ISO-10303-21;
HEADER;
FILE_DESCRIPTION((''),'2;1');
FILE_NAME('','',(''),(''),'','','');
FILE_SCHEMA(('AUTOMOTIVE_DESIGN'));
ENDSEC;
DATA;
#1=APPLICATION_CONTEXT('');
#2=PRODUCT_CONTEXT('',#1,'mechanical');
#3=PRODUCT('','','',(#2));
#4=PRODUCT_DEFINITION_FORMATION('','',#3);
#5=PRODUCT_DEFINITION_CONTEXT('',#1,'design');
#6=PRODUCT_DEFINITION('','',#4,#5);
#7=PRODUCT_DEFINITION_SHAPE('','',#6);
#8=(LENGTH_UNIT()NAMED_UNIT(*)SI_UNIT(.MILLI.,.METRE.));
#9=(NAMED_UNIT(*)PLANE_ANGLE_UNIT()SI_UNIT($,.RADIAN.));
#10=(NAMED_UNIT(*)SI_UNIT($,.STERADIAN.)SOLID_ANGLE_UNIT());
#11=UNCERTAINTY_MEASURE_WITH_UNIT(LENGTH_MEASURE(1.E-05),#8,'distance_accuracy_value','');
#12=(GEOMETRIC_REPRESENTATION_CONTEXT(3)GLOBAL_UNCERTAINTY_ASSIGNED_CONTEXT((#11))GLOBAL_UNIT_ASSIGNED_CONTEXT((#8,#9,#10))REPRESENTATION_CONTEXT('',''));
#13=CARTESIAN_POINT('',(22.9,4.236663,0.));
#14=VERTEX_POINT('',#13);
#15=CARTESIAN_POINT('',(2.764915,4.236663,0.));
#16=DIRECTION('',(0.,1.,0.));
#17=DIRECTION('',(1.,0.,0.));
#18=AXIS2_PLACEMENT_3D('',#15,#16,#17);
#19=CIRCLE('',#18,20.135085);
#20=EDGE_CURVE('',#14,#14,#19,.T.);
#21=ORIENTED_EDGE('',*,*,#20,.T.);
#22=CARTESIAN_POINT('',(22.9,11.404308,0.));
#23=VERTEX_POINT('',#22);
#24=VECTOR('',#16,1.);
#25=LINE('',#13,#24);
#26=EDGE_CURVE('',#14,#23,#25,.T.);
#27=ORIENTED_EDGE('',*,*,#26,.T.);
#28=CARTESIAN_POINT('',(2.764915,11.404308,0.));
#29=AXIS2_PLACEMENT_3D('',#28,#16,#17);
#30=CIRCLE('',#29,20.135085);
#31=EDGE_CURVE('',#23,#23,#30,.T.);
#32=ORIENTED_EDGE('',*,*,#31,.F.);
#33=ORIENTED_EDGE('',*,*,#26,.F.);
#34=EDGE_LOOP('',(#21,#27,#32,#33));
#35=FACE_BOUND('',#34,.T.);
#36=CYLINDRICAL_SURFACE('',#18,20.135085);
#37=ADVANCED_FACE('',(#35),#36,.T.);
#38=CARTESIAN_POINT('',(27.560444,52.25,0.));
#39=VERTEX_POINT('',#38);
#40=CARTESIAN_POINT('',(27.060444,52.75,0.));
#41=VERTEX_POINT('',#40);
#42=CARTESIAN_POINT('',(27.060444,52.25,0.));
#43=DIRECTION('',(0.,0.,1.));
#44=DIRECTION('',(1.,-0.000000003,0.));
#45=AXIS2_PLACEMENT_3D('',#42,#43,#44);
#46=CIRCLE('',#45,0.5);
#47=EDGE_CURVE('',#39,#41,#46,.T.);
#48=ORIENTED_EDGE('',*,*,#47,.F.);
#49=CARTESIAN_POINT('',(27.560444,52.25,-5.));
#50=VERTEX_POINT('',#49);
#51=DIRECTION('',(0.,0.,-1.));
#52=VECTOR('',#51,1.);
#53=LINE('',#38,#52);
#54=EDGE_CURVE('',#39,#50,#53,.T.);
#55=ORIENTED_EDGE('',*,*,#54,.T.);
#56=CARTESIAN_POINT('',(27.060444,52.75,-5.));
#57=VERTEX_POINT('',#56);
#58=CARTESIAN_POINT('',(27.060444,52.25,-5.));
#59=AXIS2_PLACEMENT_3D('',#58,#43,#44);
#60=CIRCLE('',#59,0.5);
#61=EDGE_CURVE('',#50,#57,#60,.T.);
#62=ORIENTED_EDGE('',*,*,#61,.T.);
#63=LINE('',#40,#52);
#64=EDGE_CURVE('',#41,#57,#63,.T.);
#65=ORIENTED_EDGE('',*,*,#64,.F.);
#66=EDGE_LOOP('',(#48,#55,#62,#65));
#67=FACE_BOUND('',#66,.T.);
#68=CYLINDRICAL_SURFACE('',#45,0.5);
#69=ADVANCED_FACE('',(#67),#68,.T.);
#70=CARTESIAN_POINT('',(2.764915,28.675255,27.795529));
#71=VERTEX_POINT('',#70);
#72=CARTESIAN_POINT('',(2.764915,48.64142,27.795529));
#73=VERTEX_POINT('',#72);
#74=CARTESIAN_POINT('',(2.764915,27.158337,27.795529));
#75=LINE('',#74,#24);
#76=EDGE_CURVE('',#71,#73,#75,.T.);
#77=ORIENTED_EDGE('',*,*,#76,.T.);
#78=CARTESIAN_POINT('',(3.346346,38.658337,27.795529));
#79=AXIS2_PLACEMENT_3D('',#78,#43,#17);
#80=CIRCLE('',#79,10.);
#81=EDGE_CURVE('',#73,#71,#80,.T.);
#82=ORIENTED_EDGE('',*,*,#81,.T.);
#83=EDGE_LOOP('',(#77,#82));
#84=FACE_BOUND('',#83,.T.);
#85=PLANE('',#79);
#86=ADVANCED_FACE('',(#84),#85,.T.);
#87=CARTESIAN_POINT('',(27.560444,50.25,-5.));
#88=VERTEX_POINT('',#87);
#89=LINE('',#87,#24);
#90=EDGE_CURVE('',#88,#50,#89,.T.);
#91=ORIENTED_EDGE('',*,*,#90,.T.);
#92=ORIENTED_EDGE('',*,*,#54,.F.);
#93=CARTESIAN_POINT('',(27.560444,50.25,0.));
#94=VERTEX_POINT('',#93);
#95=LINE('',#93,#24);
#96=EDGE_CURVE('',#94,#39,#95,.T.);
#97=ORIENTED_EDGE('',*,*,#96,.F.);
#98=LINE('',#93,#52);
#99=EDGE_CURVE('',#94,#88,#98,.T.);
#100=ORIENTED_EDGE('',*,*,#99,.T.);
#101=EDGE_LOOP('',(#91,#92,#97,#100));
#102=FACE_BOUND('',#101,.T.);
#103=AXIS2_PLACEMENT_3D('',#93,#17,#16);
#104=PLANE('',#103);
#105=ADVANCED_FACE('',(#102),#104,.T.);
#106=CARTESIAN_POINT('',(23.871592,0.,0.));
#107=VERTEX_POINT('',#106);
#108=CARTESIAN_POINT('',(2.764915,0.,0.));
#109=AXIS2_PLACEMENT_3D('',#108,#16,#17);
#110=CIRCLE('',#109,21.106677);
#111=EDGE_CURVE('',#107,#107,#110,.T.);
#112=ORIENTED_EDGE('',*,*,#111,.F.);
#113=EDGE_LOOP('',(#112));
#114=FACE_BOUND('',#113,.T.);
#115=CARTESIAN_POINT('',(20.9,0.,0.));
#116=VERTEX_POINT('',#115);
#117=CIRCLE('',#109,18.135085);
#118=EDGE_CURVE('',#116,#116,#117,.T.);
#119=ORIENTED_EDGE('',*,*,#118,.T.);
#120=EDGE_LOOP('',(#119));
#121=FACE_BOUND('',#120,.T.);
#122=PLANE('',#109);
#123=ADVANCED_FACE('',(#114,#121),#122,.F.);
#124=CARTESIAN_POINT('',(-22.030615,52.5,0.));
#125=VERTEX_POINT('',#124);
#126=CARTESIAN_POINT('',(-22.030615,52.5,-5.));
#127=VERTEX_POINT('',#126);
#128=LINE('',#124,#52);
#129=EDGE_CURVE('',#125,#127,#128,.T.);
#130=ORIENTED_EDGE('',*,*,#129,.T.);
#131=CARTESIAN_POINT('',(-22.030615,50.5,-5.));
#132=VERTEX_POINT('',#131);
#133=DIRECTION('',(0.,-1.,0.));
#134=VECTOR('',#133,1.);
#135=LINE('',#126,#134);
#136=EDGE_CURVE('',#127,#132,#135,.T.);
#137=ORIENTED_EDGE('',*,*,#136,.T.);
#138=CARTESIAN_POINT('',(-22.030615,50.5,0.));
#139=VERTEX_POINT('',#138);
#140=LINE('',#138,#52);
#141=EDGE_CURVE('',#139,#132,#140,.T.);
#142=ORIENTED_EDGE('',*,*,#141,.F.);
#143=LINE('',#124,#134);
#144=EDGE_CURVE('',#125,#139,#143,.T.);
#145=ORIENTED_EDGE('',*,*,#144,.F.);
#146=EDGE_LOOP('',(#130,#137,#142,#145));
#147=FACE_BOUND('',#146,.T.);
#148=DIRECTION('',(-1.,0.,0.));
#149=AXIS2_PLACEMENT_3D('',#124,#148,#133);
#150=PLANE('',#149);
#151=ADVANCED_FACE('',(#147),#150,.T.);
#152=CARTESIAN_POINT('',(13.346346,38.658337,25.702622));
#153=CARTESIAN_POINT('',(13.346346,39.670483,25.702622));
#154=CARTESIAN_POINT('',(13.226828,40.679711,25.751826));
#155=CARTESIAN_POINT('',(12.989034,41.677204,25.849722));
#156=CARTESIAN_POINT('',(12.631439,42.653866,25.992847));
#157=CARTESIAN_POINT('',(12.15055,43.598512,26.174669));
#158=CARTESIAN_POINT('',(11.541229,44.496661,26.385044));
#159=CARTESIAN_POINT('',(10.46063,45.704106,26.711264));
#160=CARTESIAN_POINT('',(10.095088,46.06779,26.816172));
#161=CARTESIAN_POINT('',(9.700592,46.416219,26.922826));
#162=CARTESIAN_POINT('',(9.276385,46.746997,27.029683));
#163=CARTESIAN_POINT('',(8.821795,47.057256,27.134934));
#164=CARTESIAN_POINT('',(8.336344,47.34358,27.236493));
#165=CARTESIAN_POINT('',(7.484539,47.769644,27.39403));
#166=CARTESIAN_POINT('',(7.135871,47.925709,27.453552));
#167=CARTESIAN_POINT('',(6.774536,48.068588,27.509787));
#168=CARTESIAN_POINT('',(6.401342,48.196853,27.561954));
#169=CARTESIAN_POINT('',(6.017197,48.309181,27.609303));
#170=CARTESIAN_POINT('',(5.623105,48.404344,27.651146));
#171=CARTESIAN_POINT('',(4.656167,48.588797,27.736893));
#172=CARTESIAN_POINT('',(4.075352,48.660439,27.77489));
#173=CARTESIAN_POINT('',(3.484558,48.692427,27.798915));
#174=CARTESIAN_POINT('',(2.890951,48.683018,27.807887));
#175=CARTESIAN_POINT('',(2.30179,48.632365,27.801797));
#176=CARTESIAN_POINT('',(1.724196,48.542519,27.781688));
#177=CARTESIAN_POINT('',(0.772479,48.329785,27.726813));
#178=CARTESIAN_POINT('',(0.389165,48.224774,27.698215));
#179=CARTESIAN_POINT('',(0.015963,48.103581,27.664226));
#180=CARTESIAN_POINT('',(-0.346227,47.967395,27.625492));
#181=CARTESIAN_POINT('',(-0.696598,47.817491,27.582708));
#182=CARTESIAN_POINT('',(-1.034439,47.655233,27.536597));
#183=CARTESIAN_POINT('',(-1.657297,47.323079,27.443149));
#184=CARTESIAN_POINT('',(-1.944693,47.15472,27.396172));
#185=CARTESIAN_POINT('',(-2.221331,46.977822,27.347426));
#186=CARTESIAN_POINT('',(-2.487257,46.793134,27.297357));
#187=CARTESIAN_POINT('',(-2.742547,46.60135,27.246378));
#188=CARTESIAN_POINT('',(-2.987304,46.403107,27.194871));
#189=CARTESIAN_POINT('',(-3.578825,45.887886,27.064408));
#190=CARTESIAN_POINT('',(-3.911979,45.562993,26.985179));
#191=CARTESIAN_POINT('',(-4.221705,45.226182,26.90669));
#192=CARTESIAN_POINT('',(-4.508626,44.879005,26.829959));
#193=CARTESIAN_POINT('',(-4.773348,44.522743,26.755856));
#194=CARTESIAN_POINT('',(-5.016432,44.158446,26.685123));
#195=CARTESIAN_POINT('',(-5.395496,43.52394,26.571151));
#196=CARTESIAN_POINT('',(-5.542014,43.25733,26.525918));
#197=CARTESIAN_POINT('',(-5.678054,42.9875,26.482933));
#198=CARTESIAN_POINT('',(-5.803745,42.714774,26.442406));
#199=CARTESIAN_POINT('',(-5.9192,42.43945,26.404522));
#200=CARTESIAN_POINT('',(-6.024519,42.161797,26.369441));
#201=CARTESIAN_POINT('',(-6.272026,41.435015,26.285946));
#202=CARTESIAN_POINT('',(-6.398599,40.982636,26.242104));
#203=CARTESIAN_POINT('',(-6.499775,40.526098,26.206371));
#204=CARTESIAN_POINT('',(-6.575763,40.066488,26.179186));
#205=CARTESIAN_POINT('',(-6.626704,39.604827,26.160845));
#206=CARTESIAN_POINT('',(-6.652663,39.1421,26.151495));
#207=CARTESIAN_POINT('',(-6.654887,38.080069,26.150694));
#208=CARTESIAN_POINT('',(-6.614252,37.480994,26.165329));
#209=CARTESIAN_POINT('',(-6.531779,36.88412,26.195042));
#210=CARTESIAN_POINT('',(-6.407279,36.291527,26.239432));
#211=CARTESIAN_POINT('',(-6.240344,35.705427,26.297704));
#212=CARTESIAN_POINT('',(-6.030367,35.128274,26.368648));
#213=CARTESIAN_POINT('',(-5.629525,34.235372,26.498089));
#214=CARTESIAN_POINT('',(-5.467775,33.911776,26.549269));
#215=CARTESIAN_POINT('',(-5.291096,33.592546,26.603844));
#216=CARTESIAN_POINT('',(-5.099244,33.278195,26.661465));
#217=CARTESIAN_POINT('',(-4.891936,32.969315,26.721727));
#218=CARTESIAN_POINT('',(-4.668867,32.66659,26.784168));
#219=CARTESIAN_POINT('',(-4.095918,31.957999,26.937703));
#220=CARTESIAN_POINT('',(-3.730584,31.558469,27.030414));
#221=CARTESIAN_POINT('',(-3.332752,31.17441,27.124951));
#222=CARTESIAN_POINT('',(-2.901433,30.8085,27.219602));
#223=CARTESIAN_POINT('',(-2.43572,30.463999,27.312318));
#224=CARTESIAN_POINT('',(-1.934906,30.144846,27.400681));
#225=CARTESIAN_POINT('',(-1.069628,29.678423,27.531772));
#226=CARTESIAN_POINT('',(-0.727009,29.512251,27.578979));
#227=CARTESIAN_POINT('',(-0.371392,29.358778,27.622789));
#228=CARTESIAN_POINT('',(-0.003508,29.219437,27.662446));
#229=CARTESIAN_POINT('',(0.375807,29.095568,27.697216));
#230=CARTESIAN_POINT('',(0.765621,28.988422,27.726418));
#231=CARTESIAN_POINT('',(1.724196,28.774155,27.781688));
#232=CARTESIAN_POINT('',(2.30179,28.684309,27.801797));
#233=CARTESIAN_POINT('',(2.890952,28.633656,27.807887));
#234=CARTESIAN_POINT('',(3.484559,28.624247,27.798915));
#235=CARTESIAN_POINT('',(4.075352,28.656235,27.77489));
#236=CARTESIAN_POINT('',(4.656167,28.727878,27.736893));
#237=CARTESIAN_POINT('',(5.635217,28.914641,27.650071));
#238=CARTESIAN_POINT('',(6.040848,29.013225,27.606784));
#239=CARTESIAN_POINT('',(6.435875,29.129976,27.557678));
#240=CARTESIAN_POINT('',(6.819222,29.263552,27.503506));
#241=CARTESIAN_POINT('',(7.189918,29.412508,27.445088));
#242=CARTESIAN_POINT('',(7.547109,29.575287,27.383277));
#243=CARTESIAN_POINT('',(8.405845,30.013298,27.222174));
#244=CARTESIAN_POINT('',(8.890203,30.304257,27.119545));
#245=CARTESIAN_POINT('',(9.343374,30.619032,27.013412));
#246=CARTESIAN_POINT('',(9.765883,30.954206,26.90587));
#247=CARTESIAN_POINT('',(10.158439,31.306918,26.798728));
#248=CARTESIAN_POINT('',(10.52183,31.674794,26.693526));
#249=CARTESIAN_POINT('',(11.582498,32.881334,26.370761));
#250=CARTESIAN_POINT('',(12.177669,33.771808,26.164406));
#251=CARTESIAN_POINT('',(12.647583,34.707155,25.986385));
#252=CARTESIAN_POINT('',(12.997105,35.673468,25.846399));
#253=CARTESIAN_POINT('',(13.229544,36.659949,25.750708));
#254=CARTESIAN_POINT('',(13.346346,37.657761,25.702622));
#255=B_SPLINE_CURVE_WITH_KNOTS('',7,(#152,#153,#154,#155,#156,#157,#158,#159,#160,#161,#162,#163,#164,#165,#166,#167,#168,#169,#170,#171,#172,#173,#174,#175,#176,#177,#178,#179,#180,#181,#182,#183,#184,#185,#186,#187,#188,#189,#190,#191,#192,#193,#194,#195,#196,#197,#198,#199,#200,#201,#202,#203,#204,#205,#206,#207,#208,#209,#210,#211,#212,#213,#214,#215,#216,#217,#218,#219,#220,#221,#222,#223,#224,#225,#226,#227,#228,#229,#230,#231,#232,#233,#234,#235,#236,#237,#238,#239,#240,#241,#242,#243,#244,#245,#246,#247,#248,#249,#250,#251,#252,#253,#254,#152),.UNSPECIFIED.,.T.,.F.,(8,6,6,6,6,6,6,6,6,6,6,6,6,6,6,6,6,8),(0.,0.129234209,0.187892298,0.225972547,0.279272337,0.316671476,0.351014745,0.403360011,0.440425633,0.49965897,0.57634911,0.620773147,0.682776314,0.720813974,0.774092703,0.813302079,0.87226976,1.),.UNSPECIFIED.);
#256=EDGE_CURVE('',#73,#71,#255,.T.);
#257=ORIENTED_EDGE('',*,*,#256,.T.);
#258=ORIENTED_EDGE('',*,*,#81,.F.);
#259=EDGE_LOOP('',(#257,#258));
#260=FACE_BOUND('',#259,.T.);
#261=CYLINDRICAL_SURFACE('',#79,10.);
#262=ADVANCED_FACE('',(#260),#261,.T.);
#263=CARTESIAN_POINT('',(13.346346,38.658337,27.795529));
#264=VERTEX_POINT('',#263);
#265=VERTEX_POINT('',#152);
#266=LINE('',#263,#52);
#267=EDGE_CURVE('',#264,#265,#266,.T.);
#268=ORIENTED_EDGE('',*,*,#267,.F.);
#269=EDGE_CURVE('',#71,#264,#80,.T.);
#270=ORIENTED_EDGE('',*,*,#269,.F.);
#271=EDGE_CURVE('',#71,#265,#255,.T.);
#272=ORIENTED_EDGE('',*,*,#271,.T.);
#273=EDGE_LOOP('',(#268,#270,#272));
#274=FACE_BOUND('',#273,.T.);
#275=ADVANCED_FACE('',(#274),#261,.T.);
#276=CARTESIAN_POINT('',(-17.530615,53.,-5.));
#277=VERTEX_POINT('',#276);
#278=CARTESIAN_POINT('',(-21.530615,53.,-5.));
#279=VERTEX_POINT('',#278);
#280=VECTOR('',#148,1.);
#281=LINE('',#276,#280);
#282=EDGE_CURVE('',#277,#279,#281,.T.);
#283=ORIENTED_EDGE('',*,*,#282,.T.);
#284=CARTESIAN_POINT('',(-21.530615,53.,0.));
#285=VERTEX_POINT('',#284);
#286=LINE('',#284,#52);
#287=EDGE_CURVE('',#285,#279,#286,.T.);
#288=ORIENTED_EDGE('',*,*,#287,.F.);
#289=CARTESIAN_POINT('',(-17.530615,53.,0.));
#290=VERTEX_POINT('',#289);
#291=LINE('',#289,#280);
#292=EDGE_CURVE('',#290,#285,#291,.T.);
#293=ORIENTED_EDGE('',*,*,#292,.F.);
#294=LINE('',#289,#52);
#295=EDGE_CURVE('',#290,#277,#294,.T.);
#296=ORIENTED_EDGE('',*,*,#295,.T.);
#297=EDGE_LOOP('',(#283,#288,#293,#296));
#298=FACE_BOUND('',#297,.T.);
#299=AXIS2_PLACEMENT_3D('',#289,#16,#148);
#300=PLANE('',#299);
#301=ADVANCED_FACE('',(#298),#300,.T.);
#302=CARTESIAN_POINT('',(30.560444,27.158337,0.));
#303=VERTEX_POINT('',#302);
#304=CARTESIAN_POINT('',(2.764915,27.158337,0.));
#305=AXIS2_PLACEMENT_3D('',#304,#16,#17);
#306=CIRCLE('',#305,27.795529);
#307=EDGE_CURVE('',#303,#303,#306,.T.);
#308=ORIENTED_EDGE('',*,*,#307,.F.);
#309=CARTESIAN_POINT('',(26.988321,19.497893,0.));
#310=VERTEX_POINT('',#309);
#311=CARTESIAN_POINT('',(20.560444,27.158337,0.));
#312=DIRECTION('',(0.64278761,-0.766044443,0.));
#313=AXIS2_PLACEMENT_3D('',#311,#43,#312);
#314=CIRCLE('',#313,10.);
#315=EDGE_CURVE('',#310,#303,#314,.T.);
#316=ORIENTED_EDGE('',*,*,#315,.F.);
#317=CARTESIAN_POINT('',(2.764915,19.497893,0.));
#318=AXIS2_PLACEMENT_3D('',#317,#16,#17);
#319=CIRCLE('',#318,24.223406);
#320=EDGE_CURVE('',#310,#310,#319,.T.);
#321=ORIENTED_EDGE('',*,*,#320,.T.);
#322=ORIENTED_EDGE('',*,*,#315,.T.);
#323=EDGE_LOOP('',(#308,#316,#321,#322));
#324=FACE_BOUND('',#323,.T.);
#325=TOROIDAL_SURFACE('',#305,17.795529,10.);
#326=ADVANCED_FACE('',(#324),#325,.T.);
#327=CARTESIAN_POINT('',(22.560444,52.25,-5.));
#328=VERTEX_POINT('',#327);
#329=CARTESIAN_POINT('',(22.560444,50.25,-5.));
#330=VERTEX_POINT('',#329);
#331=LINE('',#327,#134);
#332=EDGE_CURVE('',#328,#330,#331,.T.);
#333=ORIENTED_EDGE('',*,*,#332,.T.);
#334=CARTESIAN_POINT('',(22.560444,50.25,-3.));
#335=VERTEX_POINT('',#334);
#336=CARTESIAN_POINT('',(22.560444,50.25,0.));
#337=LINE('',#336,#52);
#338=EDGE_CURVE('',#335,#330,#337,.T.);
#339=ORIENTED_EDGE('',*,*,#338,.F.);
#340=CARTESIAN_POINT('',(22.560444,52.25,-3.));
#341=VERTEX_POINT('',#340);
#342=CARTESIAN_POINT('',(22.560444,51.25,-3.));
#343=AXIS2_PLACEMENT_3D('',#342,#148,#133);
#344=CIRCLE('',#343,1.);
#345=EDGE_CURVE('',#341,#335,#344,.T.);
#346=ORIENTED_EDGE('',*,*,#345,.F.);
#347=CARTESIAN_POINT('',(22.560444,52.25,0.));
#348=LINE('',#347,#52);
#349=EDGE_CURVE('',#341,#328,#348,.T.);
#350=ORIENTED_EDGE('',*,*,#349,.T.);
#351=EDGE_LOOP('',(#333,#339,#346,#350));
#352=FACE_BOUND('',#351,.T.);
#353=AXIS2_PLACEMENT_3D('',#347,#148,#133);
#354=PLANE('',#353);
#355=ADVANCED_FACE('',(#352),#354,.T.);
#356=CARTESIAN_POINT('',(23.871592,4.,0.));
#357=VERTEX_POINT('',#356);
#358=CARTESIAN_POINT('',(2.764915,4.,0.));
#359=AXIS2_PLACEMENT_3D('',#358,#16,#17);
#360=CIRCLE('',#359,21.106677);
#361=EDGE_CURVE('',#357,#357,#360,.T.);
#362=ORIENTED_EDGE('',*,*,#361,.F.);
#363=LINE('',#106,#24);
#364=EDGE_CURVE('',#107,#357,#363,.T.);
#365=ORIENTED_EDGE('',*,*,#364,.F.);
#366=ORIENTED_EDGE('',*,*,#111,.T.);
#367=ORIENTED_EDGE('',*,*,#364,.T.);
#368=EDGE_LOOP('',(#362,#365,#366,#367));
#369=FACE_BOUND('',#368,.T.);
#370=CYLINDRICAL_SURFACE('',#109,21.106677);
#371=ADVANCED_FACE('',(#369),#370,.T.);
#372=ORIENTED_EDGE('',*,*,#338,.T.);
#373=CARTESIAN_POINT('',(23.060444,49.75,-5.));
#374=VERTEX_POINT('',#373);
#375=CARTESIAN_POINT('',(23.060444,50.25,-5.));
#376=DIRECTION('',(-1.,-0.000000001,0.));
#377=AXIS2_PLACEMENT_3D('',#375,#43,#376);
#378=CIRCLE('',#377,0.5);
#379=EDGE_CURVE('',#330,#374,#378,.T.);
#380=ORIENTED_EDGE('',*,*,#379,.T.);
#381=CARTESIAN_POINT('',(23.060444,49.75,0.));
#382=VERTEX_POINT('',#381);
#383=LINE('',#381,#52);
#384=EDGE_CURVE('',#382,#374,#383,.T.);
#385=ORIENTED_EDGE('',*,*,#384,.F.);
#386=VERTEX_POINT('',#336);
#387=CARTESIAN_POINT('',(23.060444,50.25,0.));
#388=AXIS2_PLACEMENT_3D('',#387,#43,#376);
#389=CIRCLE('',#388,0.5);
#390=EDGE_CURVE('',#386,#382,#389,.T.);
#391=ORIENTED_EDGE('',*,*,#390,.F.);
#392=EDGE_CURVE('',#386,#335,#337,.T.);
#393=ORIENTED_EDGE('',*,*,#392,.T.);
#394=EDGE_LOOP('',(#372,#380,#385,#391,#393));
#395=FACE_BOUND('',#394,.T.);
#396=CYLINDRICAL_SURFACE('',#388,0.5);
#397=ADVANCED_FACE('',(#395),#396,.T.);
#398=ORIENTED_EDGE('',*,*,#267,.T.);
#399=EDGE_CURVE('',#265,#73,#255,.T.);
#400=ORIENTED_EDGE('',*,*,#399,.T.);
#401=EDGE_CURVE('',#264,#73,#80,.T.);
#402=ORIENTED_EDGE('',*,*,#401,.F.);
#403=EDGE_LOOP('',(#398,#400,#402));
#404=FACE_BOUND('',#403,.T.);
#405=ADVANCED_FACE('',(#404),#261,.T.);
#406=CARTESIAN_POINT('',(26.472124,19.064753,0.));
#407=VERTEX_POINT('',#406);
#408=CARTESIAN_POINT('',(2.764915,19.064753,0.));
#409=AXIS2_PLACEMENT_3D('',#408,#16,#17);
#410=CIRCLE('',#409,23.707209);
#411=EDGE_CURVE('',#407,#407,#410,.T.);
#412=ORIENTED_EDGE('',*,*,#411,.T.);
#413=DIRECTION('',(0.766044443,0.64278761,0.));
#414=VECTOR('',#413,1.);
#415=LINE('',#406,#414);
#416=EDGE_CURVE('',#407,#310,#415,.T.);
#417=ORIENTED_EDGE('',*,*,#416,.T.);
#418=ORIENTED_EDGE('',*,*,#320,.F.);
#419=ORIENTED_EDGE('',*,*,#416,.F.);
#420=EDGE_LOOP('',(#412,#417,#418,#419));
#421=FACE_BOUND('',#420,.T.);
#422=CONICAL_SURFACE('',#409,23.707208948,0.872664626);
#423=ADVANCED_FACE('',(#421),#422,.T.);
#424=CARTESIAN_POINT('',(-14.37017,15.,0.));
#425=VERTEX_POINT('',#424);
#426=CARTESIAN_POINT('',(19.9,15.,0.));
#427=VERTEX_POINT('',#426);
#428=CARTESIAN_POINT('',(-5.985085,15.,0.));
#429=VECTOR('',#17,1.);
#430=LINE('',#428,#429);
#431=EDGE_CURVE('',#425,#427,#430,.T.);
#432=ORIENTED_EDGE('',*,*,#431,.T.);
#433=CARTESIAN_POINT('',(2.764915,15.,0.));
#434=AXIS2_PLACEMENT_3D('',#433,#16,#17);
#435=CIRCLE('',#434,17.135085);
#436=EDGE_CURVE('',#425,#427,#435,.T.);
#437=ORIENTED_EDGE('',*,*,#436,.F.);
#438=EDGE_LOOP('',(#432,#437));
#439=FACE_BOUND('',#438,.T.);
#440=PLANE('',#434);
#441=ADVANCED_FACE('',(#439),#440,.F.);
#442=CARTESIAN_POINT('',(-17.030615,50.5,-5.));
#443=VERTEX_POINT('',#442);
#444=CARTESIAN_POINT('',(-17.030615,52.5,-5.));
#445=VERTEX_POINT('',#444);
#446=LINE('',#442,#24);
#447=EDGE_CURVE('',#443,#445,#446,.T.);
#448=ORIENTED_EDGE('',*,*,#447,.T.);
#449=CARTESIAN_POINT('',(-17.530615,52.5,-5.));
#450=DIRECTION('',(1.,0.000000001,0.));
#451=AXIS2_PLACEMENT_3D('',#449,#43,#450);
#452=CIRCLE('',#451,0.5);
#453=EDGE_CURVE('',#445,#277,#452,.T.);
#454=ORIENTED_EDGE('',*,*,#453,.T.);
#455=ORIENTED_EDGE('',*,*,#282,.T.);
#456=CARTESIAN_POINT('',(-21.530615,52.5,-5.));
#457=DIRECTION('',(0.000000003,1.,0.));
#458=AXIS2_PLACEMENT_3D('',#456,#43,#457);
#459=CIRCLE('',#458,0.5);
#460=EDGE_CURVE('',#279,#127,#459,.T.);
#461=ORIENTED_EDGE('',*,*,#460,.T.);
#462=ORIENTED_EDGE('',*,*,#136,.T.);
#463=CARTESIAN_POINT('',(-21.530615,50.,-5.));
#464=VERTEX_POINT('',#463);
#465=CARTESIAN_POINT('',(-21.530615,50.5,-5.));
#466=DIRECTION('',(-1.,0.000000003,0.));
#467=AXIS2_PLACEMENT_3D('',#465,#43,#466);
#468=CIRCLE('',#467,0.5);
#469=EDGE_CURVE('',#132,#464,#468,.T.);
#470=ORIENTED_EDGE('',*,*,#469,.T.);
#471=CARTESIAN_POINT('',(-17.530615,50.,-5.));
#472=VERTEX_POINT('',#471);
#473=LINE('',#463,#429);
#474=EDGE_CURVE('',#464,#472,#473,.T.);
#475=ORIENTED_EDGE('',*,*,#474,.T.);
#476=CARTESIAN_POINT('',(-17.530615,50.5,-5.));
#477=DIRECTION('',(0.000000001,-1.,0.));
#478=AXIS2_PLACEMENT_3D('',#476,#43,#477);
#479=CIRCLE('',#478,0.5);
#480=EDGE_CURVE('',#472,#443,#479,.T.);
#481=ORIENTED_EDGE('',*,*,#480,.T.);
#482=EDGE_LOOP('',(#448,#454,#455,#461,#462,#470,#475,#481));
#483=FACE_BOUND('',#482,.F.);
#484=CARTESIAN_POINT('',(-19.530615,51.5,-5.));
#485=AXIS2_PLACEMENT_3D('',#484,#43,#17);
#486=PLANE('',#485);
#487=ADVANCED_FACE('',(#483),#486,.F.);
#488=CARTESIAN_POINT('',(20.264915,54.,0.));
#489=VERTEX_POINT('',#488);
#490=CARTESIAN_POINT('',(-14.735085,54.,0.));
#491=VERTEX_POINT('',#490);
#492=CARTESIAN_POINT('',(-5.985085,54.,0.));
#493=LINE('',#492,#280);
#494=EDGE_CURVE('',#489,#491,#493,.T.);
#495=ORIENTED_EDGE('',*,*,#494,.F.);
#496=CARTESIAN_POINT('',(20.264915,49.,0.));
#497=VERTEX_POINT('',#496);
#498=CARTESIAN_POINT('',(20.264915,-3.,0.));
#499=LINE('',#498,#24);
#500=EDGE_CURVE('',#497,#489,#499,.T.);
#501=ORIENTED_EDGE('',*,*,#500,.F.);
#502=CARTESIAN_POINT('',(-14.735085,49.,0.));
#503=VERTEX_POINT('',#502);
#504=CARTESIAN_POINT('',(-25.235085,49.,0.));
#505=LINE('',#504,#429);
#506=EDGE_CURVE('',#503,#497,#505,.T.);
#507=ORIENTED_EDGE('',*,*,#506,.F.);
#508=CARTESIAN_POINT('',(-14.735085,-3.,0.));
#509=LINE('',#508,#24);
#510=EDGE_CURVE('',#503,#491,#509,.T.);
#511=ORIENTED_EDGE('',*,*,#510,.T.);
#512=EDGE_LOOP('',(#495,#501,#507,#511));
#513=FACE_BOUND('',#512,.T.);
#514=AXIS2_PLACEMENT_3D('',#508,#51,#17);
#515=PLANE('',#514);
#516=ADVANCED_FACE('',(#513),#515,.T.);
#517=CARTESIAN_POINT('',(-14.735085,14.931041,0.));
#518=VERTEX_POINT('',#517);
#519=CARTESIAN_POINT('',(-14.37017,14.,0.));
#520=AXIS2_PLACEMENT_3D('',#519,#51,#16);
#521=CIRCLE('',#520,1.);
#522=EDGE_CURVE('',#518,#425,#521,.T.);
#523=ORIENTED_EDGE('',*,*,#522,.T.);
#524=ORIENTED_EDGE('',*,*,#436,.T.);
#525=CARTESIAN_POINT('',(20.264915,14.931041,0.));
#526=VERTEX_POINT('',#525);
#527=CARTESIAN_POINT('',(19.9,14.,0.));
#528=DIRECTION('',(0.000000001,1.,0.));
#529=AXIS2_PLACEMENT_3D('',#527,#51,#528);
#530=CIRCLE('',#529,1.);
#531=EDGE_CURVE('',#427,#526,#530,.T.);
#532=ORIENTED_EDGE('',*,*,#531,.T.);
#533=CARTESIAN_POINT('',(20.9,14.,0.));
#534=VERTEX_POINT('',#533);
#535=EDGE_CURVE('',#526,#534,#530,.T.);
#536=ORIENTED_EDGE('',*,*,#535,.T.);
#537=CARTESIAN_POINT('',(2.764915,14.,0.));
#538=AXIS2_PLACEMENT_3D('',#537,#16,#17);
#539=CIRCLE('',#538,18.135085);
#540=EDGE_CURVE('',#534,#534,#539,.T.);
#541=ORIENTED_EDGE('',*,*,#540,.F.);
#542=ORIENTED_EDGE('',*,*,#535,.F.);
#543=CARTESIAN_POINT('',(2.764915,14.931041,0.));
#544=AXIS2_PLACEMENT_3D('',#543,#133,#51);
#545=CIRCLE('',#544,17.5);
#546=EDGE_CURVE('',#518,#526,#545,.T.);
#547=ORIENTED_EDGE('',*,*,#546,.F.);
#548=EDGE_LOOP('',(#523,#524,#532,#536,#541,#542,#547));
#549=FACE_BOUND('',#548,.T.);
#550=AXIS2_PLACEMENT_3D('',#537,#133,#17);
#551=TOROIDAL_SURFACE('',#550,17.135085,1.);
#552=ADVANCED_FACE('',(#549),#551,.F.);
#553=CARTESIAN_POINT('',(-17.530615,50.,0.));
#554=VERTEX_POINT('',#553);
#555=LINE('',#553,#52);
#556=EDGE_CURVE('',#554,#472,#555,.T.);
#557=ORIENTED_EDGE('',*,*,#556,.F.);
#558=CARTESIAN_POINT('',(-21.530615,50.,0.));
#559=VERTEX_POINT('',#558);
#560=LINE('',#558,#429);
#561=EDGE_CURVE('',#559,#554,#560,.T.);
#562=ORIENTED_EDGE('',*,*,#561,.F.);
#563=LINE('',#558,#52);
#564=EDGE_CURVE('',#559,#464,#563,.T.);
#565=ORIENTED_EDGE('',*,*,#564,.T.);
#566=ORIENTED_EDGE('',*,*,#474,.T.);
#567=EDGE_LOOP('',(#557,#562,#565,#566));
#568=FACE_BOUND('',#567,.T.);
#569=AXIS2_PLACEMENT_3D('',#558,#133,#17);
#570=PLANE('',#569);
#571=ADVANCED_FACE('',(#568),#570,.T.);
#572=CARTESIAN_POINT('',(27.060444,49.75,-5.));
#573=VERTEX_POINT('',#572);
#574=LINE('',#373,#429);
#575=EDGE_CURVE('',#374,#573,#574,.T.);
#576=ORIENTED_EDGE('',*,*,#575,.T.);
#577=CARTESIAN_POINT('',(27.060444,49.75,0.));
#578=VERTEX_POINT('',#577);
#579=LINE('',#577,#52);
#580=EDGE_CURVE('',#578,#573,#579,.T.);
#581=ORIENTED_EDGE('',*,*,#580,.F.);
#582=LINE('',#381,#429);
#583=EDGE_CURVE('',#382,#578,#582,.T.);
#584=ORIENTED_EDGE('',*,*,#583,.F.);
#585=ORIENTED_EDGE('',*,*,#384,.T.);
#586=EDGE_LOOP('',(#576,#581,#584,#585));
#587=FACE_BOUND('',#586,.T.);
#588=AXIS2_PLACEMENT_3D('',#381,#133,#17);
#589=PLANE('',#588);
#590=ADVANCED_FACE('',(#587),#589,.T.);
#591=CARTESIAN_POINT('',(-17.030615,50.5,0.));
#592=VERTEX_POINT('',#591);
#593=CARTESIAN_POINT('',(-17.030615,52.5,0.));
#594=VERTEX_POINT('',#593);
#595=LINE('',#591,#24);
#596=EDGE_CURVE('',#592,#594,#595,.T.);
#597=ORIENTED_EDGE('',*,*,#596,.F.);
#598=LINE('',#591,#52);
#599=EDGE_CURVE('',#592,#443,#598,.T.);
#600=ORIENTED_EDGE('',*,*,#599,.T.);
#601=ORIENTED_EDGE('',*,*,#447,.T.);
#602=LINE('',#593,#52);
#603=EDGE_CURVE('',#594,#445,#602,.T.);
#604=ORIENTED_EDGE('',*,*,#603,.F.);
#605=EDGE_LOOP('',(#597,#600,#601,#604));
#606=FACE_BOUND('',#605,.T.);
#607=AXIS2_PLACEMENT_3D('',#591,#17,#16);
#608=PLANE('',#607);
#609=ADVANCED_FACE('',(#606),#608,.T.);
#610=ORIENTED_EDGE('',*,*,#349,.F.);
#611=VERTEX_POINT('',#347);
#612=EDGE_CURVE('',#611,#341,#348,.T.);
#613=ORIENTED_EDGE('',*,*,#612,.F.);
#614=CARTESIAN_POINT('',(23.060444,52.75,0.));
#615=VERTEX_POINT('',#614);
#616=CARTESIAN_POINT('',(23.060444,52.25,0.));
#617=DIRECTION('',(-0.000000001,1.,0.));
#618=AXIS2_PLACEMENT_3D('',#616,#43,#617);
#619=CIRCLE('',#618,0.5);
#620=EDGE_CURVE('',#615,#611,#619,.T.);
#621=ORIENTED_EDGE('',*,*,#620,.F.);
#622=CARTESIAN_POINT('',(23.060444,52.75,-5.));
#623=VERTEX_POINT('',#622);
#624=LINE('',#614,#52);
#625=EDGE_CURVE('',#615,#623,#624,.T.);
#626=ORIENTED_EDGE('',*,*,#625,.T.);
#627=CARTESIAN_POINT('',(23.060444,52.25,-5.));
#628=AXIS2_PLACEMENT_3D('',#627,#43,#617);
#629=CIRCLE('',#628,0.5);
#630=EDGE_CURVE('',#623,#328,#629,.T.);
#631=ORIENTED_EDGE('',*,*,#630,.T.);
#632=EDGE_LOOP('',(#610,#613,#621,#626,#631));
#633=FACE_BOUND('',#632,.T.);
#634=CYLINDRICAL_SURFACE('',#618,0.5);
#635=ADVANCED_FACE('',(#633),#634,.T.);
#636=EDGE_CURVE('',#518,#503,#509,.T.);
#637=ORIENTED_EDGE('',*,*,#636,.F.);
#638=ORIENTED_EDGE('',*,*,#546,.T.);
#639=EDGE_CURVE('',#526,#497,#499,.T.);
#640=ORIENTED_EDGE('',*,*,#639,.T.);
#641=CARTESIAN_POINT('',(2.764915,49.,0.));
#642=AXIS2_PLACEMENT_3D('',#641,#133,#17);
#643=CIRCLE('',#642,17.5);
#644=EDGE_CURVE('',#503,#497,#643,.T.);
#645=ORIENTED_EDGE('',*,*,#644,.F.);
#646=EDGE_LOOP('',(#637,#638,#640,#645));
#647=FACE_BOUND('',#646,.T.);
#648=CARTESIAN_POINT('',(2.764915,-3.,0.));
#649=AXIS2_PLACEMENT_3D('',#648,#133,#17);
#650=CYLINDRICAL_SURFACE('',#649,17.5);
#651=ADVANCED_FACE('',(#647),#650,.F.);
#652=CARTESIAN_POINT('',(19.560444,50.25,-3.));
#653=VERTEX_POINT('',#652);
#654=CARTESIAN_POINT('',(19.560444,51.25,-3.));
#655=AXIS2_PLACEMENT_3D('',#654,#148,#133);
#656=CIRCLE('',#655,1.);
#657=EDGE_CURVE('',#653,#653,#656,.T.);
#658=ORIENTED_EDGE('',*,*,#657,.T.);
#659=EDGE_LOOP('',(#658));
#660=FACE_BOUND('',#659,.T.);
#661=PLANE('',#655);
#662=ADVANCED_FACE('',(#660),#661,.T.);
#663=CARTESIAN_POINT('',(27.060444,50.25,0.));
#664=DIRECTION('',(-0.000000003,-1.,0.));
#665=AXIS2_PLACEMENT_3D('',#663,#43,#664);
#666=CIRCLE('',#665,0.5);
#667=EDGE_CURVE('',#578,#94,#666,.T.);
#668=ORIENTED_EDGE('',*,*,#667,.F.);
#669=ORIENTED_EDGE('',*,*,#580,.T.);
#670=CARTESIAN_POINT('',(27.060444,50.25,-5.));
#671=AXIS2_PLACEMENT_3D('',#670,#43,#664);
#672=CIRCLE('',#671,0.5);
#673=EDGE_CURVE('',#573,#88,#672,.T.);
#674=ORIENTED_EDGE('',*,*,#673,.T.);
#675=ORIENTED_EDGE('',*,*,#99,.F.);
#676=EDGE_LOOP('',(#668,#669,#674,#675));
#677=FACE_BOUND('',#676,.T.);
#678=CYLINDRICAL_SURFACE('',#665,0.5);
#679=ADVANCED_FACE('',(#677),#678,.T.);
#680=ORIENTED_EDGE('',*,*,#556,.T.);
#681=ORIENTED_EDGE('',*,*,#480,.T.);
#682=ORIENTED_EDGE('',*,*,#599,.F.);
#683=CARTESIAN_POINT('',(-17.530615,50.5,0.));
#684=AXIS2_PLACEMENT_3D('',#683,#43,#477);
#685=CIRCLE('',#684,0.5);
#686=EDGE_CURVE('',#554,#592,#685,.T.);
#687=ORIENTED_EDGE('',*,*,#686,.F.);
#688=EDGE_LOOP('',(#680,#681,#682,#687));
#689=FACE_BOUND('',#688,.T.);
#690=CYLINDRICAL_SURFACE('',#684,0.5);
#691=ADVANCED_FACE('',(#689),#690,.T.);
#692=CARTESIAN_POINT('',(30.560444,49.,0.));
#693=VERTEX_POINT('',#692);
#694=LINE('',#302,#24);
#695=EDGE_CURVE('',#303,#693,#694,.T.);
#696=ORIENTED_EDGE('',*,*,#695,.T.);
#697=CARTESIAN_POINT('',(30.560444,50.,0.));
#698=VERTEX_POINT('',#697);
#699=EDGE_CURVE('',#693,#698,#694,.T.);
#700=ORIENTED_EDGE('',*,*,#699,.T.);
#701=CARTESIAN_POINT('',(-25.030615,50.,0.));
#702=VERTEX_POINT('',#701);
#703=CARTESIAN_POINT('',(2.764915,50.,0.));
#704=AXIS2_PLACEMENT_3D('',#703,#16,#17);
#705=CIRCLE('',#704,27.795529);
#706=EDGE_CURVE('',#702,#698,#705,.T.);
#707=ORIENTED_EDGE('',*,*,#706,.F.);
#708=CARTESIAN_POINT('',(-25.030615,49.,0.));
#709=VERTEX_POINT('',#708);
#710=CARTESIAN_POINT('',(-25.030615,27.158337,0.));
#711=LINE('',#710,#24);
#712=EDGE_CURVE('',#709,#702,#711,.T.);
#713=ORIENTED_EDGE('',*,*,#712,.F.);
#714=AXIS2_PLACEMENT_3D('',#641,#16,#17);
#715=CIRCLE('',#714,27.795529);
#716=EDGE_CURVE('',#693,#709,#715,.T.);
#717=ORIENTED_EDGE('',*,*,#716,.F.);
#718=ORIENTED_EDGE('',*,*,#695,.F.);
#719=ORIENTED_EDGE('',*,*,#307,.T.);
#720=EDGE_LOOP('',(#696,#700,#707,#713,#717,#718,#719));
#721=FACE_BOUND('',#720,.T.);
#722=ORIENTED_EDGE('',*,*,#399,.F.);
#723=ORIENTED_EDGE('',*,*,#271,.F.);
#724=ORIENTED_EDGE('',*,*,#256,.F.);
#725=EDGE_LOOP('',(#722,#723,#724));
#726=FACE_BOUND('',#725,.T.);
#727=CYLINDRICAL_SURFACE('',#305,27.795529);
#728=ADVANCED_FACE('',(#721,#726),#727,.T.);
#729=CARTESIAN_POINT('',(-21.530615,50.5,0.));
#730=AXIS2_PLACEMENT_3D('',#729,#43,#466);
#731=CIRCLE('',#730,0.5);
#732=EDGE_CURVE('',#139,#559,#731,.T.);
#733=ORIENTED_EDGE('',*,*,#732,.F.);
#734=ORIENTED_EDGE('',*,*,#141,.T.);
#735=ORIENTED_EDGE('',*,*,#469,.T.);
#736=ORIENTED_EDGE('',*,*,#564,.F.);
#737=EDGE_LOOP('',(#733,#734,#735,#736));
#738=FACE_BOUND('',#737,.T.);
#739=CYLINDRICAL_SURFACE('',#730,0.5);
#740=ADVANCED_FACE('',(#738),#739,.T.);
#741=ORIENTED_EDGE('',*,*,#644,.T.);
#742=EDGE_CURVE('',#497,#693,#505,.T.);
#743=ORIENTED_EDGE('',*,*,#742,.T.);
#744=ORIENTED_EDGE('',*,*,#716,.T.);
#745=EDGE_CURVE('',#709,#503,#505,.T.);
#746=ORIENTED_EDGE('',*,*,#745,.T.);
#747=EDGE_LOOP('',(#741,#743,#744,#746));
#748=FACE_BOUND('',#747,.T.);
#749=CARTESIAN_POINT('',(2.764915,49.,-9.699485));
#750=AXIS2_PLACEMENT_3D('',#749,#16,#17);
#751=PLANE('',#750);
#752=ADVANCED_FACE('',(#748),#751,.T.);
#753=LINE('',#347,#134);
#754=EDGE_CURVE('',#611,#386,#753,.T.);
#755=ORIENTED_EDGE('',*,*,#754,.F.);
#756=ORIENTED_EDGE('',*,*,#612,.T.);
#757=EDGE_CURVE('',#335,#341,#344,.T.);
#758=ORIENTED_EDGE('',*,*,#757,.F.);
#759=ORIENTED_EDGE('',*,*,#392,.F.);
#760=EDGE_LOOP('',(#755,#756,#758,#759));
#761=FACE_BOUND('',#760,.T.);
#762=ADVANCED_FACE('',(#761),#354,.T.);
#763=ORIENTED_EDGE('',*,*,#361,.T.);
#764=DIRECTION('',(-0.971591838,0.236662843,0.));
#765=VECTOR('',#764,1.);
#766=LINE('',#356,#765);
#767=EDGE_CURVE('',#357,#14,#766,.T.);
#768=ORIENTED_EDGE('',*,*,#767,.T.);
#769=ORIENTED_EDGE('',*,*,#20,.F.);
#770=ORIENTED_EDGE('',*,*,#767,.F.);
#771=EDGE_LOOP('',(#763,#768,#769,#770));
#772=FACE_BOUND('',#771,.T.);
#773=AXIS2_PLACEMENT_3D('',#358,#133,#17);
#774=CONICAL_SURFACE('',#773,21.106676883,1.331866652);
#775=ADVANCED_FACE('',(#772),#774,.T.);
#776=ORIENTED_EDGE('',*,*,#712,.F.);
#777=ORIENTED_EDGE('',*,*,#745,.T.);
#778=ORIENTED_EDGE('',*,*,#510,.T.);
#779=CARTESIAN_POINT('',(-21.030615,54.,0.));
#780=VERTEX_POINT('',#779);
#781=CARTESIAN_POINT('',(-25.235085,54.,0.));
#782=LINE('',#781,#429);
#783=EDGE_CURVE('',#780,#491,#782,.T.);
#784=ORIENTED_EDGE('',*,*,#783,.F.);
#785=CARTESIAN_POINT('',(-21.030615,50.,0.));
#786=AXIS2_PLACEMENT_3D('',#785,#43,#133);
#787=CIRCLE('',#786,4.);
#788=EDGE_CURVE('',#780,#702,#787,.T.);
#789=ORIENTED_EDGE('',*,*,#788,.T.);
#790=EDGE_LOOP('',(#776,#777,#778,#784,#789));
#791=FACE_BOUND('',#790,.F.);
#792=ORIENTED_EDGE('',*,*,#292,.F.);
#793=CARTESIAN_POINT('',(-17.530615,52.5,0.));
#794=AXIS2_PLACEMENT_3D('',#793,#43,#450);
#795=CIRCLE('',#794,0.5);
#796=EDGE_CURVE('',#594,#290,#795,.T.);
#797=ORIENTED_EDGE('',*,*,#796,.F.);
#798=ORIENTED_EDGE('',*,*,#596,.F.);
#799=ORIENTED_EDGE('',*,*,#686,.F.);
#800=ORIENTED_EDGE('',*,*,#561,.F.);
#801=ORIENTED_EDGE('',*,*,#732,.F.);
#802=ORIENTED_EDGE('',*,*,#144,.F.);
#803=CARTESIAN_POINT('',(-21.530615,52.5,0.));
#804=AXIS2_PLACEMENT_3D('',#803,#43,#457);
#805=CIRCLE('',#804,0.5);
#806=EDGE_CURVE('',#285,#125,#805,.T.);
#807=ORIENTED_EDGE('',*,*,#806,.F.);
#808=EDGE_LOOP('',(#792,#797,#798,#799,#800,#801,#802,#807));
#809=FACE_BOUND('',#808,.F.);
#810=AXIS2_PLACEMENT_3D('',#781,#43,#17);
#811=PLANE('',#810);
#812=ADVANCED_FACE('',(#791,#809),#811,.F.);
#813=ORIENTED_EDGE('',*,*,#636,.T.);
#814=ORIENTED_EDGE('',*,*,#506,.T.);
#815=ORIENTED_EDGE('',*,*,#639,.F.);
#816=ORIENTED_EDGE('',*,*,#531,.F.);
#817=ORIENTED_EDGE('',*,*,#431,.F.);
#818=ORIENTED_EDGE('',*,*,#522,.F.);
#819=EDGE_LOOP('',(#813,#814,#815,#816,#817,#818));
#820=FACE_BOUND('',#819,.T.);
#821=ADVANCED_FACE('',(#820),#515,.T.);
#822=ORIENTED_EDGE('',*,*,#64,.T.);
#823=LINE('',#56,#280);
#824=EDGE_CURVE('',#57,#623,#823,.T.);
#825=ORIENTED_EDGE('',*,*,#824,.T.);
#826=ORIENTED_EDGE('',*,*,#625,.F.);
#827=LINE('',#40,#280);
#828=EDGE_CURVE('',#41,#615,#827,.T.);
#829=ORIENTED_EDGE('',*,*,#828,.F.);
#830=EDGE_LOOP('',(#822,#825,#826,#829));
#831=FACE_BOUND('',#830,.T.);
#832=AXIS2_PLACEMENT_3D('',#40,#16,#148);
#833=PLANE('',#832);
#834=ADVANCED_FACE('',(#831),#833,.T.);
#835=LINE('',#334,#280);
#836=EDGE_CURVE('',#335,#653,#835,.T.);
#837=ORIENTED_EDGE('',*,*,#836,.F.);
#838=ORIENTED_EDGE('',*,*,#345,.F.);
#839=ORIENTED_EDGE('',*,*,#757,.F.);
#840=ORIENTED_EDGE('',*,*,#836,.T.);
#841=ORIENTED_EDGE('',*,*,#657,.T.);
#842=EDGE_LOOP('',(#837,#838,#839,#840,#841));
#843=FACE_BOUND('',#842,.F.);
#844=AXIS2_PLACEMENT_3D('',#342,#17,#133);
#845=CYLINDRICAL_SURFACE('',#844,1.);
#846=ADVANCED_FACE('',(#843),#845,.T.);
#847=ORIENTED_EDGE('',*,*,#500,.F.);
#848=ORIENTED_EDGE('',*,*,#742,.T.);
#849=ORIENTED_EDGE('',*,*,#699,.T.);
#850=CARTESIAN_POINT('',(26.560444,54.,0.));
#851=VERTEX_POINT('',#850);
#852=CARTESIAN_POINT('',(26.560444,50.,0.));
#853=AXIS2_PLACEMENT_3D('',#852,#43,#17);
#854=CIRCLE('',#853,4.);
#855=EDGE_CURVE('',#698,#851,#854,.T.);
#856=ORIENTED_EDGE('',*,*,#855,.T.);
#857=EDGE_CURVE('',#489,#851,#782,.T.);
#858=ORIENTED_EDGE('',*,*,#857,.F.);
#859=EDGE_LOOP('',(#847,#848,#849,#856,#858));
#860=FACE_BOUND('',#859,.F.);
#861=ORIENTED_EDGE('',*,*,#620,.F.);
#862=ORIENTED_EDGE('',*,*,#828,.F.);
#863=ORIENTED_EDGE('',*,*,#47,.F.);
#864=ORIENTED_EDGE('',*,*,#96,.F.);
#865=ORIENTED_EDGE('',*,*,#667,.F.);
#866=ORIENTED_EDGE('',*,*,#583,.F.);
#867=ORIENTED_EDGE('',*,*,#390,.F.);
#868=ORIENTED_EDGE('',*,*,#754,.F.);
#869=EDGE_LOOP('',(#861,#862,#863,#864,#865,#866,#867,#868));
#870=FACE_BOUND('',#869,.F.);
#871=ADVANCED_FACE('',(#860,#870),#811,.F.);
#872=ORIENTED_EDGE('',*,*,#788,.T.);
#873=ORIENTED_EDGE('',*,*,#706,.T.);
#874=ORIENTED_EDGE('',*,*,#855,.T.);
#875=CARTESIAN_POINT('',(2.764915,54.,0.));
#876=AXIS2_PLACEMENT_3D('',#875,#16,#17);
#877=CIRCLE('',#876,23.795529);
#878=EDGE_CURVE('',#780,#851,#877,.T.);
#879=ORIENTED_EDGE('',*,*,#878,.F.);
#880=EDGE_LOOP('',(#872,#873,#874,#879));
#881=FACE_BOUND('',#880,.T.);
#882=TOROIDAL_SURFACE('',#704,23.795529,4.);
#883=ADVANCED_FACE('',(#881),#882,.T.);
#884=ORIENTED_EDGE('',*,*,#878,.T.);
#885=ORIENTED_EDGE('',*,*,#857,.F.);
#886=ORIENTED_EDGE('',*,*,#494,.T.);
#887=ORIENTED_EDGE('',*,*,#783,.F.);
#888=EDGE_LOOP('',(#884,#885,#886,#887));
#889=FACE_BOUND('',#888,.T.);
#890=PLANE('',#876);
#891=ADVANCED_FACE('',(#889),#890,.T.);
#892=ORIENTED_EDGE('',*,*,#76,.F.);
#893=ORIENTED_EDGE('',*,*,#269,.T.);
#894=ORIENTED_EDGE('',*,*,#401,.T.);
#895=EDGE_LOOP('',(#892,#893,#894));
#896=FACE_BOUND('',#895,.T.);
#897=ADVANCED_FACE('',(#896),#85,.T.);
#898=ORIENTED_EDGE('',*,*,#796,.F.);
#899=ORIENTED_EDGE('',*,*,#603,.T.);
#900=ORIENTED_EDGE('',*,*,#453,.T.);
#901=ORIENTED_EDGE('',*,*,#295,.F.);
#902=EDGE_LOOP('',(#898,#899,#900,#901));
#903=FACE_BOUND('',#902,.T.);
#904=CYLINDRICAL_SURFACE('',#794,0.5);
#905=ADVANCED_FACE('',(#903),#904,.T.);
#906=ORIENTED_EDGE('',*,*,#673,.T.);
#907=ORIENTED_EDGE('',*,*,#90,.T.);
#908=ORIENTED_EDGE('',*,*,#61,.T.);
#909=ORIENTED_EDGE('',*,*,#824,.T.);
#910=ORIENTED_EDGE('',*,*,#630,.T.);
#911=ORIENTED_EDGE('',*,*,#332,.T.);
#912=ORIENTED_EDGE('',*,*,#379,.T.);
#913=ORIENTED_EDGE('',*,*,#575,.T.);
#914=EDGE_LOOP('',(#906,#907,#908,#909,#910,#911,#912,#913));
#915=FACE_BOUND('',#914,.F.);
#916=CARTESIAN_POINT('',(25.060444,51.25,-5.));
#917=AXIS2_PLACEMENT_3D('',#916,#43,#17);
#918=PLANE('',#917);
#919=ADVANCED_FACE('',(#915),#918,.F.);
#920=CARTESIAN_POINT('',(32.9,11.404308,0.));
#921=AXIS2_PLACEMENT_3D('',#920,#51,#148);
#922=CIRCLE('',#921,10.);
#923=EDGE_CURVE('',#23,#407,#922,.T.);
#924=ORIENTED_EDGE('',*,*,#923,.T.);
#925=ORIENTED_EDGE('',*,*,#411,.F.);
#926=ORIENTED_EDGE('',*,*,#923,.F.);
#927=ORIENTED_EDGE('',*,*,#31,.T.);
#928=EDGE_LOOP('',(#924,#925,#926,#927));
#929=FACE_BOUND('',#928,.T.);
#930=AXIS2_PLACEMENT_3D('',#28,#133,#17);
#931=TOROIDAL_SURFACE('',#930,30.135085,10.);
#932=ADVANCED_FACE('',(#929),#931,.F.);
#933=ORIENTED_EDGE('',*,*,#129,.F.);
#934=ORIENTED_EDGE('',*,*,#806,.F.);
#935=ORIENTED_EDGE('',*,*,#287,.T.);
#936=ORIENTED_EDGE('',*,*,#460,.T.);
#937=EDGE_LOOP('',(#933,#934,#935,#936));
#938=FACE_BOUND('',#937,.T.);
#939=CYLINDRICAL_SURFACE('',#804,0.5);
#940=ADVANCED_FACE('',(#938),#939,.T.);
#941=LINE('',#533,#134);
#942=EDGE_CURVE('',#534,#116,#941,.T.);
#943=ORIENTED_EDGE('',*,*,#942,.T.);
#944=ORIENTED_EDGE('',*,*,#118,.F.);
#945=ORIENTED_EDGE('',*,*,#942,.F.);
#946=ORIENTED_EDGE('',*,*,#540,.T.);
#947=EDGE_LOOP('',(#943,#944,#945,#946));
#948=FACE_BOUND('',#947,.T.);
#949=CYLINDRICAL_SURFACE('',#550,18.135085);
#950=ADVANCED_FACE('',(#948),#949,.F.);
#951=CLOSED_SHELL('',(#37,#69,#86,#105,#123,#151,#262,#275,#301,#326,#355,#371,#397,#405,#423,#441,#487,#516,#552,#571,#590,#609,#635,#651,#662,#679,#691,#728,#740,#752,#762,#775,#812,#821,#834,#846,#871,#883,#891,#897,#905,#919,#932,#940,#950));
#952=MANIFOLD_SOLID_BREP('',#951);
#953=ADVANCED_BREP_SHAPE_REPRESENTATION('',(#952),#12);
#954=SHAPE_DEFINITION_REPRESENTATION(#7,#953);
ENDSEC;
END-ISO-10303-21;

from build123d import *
from build123d.topology import SkipClean

# Parameters (mm, degrees)
SKETCH10_R              = 10
BOSS_EXTRUDE1_DEPTH     = 5
CUT_EXTRUDE3_DEPTH      = 45
CUT_EXTRUDE3_DEPTH_BACK = 20
CUT_EXTRUDE5_DEPTH      = 5
BOSS_EXTRUDE2_DEPTH     = 5
SKETCH14_R              = 1
BOSS_EXTRUDE3_DEPTH     = 3


with BuildPart() as part:
    # Sketch1 → Revolve1 (revolve)
    with BuildSketch(Plane.XY):
        with BuildLine():
            Line((20.9, 0), (23.871591838, 0))
            Line((23.871591838, 0), (23.871591838, 4))
            Line((23.871591838, 4), (22.9, 4.236662843))
            Line((22.9, 4.236662843), (22.9, 11.404308102))
            ThreePointArc((22.9, 11.404308102), (23.83692213, 15.63049072), (26.472123903, 19.064752533))
            Line((26.472123903, 19.064752533), (26.988320528, 19.497892931))
            ThreePointArc((26.988320528, 19.497892931), (29.623522302, 22.932154745), (30.560444431, 27.158337362))
            Line((30.560444431, 27.158337362), (30.560444431, 50))
            ThreePointArc((30.560444431, 50), (29.388871556, 52.828427125), (26.560444431, 54))
            Line((26.560444431, 54), (2.764914955, 54))
            Line((2.764914955, 54), (2.764914955, 15))
            Line((2.764914955, 15), (19.9, 15))
            ThreePointArc((19.9, 15), (20.607106781, 14.707106781), (20.9, 14))
            Line((20.9, 14), (20.9, 0))
        make_face()
    revolve(axis=Axis((2.764914955, 7.821821657, 0), (0, 1, 0)))

    # Sketch10 → Boss-Extrude1 (add)
    with SkipClean():  # the faces are left unmerged after this step: merging them gives an invalid solid
        with BuildSketch(Plane.XY.offset(27.795529476)):
            with Locations((3.346345887, 38.658337362)):
                Circle(SKETCH10_R)
        extrude(amount=-BOSS_EXTRUDE1_DEPTH)

    # Sketch11 → Cut-Extrude3 (cut, two sides: drawn at the far end of the back side and taken through both)
    with SkipClean():  # the faces are left unmerged after this step: merging them gives an invalid solid
        with BuildSketch(Plane(origin=(0, 17, 0), x_dir=(1, 0, 0), z_dir=(0, 1, 0)).offset(-CUT_EXTRUDE3_DEPTH_BACK)):
            with BuildLine():
                Line((-14.735085045, 0), (20.264914955, 0))
                ThreePointArc((20.264914955, 0), (2.764914955, 17.5), (-14.735085045, 0))
            make_face()
        extrude(amount=CUT_EXTRUDE3_DEPTH + CUT_EXTRUDE3_DEPTH_BACK, mode=Mode.SUBTRACT)

    # Sketch9 → Cut-Extrude5 (cut)
    with SkipClean():  # the faces are left unmerged after this step: merging them gives an invalid solid
        with BuildSketch(Plane(origin=(0, 54, 0), x_dir=(1, 0, 0), z_dir=(0, 1, 0))):
            with BuildLine():
                Line((-25.235085045, 0), (30.764914955, 0))
                ThreePointArc((30.764914955, 0), (2.764914955, 28), (-25.235085045, 0))
            make_face()
        extrude(amount=-CUT_EXTRUDE5_DEPTH, mode=Mode.SUBTRACT)

    # Sketch13 → Boss-Extrude2 (add)
    with SkipClean():  # the faces are left unmerged after this step: merging them gives an invalid solid
        with BuildSketch(Plane(origin=(0, 0, 0), x_dir=(-1, 0, 0), z_dir=(0, 0, -1))):
            with BuildLine():
                Line((17.53061452, 53), (21.53061452, 53))
                ThreePointArc((21.53061452, 53), (21.884167911, 52.853553391), (22.03061452, 52.5))
                Line((22.03061452, 52.5), (22.03061452, 50.5))
                ThreePointArc((22.03061452, 50.5), (21.884167911, 50.146446609), (21.53061452, 50))
                Line((21.53061452, 50), (17.53061452, 50))
                ThreePointArc((17.53061452, 50), (17.17706113, 50.146446609), (17.03061452, 50.5))
                Line((17.03061452, 50.5), (17.03061452, 52.5))
                ThreePointArc((17.03061452, 52.5), (17.17706113, 52.853553391), (17.53061452, 53))
            make_face()
            with BuildLine():
                Line((-27.060444431, 52.75), (-23.060444431, 52.75))
                ThreePointArc((-23.060444431, 52.75), (-22.706891041, 52.603553391), (-22.560444431, 52.25))
                Line((-22.560444431, 52.25), (-22.560444431, 50.25))
                ThreePointArc((-22.560444431, 50.25), (-22.706891041, 49.896446609), (-23.060444431, 49.75))
                Line((-23.060444431, 49.75), (-27.060444431, 49.75))
                ThreePointArc((-27.060444431, 49.75), (-27.413997822, 49.896446609), (-27.560444431, 50.25))
                Line((-27.560444431, 50.25), (-27.560444431, 52.25))
                ThreePointArc((-27.560444431, 52.25), (-27.413997822, 52.603553391), (-27.060444431, 52.75))
            make_face()
        extrude(amount=BOSS_EXTRUDE2_DEPTH)

    # Sketch14 → Boss-Extrude3 (add)
    with SkipClean():  # the faces are left unmerged after this step: merging them gives an invalid solid
        with BuildSketch(Plane.ZY.offset(-22.560444431)):
            with Locations((-3, 51.25)):
                Circle(SKETCH14_R)
        extrude(amount=BOSS_EXTRUDE3_DEPTH)


solid = part.part
